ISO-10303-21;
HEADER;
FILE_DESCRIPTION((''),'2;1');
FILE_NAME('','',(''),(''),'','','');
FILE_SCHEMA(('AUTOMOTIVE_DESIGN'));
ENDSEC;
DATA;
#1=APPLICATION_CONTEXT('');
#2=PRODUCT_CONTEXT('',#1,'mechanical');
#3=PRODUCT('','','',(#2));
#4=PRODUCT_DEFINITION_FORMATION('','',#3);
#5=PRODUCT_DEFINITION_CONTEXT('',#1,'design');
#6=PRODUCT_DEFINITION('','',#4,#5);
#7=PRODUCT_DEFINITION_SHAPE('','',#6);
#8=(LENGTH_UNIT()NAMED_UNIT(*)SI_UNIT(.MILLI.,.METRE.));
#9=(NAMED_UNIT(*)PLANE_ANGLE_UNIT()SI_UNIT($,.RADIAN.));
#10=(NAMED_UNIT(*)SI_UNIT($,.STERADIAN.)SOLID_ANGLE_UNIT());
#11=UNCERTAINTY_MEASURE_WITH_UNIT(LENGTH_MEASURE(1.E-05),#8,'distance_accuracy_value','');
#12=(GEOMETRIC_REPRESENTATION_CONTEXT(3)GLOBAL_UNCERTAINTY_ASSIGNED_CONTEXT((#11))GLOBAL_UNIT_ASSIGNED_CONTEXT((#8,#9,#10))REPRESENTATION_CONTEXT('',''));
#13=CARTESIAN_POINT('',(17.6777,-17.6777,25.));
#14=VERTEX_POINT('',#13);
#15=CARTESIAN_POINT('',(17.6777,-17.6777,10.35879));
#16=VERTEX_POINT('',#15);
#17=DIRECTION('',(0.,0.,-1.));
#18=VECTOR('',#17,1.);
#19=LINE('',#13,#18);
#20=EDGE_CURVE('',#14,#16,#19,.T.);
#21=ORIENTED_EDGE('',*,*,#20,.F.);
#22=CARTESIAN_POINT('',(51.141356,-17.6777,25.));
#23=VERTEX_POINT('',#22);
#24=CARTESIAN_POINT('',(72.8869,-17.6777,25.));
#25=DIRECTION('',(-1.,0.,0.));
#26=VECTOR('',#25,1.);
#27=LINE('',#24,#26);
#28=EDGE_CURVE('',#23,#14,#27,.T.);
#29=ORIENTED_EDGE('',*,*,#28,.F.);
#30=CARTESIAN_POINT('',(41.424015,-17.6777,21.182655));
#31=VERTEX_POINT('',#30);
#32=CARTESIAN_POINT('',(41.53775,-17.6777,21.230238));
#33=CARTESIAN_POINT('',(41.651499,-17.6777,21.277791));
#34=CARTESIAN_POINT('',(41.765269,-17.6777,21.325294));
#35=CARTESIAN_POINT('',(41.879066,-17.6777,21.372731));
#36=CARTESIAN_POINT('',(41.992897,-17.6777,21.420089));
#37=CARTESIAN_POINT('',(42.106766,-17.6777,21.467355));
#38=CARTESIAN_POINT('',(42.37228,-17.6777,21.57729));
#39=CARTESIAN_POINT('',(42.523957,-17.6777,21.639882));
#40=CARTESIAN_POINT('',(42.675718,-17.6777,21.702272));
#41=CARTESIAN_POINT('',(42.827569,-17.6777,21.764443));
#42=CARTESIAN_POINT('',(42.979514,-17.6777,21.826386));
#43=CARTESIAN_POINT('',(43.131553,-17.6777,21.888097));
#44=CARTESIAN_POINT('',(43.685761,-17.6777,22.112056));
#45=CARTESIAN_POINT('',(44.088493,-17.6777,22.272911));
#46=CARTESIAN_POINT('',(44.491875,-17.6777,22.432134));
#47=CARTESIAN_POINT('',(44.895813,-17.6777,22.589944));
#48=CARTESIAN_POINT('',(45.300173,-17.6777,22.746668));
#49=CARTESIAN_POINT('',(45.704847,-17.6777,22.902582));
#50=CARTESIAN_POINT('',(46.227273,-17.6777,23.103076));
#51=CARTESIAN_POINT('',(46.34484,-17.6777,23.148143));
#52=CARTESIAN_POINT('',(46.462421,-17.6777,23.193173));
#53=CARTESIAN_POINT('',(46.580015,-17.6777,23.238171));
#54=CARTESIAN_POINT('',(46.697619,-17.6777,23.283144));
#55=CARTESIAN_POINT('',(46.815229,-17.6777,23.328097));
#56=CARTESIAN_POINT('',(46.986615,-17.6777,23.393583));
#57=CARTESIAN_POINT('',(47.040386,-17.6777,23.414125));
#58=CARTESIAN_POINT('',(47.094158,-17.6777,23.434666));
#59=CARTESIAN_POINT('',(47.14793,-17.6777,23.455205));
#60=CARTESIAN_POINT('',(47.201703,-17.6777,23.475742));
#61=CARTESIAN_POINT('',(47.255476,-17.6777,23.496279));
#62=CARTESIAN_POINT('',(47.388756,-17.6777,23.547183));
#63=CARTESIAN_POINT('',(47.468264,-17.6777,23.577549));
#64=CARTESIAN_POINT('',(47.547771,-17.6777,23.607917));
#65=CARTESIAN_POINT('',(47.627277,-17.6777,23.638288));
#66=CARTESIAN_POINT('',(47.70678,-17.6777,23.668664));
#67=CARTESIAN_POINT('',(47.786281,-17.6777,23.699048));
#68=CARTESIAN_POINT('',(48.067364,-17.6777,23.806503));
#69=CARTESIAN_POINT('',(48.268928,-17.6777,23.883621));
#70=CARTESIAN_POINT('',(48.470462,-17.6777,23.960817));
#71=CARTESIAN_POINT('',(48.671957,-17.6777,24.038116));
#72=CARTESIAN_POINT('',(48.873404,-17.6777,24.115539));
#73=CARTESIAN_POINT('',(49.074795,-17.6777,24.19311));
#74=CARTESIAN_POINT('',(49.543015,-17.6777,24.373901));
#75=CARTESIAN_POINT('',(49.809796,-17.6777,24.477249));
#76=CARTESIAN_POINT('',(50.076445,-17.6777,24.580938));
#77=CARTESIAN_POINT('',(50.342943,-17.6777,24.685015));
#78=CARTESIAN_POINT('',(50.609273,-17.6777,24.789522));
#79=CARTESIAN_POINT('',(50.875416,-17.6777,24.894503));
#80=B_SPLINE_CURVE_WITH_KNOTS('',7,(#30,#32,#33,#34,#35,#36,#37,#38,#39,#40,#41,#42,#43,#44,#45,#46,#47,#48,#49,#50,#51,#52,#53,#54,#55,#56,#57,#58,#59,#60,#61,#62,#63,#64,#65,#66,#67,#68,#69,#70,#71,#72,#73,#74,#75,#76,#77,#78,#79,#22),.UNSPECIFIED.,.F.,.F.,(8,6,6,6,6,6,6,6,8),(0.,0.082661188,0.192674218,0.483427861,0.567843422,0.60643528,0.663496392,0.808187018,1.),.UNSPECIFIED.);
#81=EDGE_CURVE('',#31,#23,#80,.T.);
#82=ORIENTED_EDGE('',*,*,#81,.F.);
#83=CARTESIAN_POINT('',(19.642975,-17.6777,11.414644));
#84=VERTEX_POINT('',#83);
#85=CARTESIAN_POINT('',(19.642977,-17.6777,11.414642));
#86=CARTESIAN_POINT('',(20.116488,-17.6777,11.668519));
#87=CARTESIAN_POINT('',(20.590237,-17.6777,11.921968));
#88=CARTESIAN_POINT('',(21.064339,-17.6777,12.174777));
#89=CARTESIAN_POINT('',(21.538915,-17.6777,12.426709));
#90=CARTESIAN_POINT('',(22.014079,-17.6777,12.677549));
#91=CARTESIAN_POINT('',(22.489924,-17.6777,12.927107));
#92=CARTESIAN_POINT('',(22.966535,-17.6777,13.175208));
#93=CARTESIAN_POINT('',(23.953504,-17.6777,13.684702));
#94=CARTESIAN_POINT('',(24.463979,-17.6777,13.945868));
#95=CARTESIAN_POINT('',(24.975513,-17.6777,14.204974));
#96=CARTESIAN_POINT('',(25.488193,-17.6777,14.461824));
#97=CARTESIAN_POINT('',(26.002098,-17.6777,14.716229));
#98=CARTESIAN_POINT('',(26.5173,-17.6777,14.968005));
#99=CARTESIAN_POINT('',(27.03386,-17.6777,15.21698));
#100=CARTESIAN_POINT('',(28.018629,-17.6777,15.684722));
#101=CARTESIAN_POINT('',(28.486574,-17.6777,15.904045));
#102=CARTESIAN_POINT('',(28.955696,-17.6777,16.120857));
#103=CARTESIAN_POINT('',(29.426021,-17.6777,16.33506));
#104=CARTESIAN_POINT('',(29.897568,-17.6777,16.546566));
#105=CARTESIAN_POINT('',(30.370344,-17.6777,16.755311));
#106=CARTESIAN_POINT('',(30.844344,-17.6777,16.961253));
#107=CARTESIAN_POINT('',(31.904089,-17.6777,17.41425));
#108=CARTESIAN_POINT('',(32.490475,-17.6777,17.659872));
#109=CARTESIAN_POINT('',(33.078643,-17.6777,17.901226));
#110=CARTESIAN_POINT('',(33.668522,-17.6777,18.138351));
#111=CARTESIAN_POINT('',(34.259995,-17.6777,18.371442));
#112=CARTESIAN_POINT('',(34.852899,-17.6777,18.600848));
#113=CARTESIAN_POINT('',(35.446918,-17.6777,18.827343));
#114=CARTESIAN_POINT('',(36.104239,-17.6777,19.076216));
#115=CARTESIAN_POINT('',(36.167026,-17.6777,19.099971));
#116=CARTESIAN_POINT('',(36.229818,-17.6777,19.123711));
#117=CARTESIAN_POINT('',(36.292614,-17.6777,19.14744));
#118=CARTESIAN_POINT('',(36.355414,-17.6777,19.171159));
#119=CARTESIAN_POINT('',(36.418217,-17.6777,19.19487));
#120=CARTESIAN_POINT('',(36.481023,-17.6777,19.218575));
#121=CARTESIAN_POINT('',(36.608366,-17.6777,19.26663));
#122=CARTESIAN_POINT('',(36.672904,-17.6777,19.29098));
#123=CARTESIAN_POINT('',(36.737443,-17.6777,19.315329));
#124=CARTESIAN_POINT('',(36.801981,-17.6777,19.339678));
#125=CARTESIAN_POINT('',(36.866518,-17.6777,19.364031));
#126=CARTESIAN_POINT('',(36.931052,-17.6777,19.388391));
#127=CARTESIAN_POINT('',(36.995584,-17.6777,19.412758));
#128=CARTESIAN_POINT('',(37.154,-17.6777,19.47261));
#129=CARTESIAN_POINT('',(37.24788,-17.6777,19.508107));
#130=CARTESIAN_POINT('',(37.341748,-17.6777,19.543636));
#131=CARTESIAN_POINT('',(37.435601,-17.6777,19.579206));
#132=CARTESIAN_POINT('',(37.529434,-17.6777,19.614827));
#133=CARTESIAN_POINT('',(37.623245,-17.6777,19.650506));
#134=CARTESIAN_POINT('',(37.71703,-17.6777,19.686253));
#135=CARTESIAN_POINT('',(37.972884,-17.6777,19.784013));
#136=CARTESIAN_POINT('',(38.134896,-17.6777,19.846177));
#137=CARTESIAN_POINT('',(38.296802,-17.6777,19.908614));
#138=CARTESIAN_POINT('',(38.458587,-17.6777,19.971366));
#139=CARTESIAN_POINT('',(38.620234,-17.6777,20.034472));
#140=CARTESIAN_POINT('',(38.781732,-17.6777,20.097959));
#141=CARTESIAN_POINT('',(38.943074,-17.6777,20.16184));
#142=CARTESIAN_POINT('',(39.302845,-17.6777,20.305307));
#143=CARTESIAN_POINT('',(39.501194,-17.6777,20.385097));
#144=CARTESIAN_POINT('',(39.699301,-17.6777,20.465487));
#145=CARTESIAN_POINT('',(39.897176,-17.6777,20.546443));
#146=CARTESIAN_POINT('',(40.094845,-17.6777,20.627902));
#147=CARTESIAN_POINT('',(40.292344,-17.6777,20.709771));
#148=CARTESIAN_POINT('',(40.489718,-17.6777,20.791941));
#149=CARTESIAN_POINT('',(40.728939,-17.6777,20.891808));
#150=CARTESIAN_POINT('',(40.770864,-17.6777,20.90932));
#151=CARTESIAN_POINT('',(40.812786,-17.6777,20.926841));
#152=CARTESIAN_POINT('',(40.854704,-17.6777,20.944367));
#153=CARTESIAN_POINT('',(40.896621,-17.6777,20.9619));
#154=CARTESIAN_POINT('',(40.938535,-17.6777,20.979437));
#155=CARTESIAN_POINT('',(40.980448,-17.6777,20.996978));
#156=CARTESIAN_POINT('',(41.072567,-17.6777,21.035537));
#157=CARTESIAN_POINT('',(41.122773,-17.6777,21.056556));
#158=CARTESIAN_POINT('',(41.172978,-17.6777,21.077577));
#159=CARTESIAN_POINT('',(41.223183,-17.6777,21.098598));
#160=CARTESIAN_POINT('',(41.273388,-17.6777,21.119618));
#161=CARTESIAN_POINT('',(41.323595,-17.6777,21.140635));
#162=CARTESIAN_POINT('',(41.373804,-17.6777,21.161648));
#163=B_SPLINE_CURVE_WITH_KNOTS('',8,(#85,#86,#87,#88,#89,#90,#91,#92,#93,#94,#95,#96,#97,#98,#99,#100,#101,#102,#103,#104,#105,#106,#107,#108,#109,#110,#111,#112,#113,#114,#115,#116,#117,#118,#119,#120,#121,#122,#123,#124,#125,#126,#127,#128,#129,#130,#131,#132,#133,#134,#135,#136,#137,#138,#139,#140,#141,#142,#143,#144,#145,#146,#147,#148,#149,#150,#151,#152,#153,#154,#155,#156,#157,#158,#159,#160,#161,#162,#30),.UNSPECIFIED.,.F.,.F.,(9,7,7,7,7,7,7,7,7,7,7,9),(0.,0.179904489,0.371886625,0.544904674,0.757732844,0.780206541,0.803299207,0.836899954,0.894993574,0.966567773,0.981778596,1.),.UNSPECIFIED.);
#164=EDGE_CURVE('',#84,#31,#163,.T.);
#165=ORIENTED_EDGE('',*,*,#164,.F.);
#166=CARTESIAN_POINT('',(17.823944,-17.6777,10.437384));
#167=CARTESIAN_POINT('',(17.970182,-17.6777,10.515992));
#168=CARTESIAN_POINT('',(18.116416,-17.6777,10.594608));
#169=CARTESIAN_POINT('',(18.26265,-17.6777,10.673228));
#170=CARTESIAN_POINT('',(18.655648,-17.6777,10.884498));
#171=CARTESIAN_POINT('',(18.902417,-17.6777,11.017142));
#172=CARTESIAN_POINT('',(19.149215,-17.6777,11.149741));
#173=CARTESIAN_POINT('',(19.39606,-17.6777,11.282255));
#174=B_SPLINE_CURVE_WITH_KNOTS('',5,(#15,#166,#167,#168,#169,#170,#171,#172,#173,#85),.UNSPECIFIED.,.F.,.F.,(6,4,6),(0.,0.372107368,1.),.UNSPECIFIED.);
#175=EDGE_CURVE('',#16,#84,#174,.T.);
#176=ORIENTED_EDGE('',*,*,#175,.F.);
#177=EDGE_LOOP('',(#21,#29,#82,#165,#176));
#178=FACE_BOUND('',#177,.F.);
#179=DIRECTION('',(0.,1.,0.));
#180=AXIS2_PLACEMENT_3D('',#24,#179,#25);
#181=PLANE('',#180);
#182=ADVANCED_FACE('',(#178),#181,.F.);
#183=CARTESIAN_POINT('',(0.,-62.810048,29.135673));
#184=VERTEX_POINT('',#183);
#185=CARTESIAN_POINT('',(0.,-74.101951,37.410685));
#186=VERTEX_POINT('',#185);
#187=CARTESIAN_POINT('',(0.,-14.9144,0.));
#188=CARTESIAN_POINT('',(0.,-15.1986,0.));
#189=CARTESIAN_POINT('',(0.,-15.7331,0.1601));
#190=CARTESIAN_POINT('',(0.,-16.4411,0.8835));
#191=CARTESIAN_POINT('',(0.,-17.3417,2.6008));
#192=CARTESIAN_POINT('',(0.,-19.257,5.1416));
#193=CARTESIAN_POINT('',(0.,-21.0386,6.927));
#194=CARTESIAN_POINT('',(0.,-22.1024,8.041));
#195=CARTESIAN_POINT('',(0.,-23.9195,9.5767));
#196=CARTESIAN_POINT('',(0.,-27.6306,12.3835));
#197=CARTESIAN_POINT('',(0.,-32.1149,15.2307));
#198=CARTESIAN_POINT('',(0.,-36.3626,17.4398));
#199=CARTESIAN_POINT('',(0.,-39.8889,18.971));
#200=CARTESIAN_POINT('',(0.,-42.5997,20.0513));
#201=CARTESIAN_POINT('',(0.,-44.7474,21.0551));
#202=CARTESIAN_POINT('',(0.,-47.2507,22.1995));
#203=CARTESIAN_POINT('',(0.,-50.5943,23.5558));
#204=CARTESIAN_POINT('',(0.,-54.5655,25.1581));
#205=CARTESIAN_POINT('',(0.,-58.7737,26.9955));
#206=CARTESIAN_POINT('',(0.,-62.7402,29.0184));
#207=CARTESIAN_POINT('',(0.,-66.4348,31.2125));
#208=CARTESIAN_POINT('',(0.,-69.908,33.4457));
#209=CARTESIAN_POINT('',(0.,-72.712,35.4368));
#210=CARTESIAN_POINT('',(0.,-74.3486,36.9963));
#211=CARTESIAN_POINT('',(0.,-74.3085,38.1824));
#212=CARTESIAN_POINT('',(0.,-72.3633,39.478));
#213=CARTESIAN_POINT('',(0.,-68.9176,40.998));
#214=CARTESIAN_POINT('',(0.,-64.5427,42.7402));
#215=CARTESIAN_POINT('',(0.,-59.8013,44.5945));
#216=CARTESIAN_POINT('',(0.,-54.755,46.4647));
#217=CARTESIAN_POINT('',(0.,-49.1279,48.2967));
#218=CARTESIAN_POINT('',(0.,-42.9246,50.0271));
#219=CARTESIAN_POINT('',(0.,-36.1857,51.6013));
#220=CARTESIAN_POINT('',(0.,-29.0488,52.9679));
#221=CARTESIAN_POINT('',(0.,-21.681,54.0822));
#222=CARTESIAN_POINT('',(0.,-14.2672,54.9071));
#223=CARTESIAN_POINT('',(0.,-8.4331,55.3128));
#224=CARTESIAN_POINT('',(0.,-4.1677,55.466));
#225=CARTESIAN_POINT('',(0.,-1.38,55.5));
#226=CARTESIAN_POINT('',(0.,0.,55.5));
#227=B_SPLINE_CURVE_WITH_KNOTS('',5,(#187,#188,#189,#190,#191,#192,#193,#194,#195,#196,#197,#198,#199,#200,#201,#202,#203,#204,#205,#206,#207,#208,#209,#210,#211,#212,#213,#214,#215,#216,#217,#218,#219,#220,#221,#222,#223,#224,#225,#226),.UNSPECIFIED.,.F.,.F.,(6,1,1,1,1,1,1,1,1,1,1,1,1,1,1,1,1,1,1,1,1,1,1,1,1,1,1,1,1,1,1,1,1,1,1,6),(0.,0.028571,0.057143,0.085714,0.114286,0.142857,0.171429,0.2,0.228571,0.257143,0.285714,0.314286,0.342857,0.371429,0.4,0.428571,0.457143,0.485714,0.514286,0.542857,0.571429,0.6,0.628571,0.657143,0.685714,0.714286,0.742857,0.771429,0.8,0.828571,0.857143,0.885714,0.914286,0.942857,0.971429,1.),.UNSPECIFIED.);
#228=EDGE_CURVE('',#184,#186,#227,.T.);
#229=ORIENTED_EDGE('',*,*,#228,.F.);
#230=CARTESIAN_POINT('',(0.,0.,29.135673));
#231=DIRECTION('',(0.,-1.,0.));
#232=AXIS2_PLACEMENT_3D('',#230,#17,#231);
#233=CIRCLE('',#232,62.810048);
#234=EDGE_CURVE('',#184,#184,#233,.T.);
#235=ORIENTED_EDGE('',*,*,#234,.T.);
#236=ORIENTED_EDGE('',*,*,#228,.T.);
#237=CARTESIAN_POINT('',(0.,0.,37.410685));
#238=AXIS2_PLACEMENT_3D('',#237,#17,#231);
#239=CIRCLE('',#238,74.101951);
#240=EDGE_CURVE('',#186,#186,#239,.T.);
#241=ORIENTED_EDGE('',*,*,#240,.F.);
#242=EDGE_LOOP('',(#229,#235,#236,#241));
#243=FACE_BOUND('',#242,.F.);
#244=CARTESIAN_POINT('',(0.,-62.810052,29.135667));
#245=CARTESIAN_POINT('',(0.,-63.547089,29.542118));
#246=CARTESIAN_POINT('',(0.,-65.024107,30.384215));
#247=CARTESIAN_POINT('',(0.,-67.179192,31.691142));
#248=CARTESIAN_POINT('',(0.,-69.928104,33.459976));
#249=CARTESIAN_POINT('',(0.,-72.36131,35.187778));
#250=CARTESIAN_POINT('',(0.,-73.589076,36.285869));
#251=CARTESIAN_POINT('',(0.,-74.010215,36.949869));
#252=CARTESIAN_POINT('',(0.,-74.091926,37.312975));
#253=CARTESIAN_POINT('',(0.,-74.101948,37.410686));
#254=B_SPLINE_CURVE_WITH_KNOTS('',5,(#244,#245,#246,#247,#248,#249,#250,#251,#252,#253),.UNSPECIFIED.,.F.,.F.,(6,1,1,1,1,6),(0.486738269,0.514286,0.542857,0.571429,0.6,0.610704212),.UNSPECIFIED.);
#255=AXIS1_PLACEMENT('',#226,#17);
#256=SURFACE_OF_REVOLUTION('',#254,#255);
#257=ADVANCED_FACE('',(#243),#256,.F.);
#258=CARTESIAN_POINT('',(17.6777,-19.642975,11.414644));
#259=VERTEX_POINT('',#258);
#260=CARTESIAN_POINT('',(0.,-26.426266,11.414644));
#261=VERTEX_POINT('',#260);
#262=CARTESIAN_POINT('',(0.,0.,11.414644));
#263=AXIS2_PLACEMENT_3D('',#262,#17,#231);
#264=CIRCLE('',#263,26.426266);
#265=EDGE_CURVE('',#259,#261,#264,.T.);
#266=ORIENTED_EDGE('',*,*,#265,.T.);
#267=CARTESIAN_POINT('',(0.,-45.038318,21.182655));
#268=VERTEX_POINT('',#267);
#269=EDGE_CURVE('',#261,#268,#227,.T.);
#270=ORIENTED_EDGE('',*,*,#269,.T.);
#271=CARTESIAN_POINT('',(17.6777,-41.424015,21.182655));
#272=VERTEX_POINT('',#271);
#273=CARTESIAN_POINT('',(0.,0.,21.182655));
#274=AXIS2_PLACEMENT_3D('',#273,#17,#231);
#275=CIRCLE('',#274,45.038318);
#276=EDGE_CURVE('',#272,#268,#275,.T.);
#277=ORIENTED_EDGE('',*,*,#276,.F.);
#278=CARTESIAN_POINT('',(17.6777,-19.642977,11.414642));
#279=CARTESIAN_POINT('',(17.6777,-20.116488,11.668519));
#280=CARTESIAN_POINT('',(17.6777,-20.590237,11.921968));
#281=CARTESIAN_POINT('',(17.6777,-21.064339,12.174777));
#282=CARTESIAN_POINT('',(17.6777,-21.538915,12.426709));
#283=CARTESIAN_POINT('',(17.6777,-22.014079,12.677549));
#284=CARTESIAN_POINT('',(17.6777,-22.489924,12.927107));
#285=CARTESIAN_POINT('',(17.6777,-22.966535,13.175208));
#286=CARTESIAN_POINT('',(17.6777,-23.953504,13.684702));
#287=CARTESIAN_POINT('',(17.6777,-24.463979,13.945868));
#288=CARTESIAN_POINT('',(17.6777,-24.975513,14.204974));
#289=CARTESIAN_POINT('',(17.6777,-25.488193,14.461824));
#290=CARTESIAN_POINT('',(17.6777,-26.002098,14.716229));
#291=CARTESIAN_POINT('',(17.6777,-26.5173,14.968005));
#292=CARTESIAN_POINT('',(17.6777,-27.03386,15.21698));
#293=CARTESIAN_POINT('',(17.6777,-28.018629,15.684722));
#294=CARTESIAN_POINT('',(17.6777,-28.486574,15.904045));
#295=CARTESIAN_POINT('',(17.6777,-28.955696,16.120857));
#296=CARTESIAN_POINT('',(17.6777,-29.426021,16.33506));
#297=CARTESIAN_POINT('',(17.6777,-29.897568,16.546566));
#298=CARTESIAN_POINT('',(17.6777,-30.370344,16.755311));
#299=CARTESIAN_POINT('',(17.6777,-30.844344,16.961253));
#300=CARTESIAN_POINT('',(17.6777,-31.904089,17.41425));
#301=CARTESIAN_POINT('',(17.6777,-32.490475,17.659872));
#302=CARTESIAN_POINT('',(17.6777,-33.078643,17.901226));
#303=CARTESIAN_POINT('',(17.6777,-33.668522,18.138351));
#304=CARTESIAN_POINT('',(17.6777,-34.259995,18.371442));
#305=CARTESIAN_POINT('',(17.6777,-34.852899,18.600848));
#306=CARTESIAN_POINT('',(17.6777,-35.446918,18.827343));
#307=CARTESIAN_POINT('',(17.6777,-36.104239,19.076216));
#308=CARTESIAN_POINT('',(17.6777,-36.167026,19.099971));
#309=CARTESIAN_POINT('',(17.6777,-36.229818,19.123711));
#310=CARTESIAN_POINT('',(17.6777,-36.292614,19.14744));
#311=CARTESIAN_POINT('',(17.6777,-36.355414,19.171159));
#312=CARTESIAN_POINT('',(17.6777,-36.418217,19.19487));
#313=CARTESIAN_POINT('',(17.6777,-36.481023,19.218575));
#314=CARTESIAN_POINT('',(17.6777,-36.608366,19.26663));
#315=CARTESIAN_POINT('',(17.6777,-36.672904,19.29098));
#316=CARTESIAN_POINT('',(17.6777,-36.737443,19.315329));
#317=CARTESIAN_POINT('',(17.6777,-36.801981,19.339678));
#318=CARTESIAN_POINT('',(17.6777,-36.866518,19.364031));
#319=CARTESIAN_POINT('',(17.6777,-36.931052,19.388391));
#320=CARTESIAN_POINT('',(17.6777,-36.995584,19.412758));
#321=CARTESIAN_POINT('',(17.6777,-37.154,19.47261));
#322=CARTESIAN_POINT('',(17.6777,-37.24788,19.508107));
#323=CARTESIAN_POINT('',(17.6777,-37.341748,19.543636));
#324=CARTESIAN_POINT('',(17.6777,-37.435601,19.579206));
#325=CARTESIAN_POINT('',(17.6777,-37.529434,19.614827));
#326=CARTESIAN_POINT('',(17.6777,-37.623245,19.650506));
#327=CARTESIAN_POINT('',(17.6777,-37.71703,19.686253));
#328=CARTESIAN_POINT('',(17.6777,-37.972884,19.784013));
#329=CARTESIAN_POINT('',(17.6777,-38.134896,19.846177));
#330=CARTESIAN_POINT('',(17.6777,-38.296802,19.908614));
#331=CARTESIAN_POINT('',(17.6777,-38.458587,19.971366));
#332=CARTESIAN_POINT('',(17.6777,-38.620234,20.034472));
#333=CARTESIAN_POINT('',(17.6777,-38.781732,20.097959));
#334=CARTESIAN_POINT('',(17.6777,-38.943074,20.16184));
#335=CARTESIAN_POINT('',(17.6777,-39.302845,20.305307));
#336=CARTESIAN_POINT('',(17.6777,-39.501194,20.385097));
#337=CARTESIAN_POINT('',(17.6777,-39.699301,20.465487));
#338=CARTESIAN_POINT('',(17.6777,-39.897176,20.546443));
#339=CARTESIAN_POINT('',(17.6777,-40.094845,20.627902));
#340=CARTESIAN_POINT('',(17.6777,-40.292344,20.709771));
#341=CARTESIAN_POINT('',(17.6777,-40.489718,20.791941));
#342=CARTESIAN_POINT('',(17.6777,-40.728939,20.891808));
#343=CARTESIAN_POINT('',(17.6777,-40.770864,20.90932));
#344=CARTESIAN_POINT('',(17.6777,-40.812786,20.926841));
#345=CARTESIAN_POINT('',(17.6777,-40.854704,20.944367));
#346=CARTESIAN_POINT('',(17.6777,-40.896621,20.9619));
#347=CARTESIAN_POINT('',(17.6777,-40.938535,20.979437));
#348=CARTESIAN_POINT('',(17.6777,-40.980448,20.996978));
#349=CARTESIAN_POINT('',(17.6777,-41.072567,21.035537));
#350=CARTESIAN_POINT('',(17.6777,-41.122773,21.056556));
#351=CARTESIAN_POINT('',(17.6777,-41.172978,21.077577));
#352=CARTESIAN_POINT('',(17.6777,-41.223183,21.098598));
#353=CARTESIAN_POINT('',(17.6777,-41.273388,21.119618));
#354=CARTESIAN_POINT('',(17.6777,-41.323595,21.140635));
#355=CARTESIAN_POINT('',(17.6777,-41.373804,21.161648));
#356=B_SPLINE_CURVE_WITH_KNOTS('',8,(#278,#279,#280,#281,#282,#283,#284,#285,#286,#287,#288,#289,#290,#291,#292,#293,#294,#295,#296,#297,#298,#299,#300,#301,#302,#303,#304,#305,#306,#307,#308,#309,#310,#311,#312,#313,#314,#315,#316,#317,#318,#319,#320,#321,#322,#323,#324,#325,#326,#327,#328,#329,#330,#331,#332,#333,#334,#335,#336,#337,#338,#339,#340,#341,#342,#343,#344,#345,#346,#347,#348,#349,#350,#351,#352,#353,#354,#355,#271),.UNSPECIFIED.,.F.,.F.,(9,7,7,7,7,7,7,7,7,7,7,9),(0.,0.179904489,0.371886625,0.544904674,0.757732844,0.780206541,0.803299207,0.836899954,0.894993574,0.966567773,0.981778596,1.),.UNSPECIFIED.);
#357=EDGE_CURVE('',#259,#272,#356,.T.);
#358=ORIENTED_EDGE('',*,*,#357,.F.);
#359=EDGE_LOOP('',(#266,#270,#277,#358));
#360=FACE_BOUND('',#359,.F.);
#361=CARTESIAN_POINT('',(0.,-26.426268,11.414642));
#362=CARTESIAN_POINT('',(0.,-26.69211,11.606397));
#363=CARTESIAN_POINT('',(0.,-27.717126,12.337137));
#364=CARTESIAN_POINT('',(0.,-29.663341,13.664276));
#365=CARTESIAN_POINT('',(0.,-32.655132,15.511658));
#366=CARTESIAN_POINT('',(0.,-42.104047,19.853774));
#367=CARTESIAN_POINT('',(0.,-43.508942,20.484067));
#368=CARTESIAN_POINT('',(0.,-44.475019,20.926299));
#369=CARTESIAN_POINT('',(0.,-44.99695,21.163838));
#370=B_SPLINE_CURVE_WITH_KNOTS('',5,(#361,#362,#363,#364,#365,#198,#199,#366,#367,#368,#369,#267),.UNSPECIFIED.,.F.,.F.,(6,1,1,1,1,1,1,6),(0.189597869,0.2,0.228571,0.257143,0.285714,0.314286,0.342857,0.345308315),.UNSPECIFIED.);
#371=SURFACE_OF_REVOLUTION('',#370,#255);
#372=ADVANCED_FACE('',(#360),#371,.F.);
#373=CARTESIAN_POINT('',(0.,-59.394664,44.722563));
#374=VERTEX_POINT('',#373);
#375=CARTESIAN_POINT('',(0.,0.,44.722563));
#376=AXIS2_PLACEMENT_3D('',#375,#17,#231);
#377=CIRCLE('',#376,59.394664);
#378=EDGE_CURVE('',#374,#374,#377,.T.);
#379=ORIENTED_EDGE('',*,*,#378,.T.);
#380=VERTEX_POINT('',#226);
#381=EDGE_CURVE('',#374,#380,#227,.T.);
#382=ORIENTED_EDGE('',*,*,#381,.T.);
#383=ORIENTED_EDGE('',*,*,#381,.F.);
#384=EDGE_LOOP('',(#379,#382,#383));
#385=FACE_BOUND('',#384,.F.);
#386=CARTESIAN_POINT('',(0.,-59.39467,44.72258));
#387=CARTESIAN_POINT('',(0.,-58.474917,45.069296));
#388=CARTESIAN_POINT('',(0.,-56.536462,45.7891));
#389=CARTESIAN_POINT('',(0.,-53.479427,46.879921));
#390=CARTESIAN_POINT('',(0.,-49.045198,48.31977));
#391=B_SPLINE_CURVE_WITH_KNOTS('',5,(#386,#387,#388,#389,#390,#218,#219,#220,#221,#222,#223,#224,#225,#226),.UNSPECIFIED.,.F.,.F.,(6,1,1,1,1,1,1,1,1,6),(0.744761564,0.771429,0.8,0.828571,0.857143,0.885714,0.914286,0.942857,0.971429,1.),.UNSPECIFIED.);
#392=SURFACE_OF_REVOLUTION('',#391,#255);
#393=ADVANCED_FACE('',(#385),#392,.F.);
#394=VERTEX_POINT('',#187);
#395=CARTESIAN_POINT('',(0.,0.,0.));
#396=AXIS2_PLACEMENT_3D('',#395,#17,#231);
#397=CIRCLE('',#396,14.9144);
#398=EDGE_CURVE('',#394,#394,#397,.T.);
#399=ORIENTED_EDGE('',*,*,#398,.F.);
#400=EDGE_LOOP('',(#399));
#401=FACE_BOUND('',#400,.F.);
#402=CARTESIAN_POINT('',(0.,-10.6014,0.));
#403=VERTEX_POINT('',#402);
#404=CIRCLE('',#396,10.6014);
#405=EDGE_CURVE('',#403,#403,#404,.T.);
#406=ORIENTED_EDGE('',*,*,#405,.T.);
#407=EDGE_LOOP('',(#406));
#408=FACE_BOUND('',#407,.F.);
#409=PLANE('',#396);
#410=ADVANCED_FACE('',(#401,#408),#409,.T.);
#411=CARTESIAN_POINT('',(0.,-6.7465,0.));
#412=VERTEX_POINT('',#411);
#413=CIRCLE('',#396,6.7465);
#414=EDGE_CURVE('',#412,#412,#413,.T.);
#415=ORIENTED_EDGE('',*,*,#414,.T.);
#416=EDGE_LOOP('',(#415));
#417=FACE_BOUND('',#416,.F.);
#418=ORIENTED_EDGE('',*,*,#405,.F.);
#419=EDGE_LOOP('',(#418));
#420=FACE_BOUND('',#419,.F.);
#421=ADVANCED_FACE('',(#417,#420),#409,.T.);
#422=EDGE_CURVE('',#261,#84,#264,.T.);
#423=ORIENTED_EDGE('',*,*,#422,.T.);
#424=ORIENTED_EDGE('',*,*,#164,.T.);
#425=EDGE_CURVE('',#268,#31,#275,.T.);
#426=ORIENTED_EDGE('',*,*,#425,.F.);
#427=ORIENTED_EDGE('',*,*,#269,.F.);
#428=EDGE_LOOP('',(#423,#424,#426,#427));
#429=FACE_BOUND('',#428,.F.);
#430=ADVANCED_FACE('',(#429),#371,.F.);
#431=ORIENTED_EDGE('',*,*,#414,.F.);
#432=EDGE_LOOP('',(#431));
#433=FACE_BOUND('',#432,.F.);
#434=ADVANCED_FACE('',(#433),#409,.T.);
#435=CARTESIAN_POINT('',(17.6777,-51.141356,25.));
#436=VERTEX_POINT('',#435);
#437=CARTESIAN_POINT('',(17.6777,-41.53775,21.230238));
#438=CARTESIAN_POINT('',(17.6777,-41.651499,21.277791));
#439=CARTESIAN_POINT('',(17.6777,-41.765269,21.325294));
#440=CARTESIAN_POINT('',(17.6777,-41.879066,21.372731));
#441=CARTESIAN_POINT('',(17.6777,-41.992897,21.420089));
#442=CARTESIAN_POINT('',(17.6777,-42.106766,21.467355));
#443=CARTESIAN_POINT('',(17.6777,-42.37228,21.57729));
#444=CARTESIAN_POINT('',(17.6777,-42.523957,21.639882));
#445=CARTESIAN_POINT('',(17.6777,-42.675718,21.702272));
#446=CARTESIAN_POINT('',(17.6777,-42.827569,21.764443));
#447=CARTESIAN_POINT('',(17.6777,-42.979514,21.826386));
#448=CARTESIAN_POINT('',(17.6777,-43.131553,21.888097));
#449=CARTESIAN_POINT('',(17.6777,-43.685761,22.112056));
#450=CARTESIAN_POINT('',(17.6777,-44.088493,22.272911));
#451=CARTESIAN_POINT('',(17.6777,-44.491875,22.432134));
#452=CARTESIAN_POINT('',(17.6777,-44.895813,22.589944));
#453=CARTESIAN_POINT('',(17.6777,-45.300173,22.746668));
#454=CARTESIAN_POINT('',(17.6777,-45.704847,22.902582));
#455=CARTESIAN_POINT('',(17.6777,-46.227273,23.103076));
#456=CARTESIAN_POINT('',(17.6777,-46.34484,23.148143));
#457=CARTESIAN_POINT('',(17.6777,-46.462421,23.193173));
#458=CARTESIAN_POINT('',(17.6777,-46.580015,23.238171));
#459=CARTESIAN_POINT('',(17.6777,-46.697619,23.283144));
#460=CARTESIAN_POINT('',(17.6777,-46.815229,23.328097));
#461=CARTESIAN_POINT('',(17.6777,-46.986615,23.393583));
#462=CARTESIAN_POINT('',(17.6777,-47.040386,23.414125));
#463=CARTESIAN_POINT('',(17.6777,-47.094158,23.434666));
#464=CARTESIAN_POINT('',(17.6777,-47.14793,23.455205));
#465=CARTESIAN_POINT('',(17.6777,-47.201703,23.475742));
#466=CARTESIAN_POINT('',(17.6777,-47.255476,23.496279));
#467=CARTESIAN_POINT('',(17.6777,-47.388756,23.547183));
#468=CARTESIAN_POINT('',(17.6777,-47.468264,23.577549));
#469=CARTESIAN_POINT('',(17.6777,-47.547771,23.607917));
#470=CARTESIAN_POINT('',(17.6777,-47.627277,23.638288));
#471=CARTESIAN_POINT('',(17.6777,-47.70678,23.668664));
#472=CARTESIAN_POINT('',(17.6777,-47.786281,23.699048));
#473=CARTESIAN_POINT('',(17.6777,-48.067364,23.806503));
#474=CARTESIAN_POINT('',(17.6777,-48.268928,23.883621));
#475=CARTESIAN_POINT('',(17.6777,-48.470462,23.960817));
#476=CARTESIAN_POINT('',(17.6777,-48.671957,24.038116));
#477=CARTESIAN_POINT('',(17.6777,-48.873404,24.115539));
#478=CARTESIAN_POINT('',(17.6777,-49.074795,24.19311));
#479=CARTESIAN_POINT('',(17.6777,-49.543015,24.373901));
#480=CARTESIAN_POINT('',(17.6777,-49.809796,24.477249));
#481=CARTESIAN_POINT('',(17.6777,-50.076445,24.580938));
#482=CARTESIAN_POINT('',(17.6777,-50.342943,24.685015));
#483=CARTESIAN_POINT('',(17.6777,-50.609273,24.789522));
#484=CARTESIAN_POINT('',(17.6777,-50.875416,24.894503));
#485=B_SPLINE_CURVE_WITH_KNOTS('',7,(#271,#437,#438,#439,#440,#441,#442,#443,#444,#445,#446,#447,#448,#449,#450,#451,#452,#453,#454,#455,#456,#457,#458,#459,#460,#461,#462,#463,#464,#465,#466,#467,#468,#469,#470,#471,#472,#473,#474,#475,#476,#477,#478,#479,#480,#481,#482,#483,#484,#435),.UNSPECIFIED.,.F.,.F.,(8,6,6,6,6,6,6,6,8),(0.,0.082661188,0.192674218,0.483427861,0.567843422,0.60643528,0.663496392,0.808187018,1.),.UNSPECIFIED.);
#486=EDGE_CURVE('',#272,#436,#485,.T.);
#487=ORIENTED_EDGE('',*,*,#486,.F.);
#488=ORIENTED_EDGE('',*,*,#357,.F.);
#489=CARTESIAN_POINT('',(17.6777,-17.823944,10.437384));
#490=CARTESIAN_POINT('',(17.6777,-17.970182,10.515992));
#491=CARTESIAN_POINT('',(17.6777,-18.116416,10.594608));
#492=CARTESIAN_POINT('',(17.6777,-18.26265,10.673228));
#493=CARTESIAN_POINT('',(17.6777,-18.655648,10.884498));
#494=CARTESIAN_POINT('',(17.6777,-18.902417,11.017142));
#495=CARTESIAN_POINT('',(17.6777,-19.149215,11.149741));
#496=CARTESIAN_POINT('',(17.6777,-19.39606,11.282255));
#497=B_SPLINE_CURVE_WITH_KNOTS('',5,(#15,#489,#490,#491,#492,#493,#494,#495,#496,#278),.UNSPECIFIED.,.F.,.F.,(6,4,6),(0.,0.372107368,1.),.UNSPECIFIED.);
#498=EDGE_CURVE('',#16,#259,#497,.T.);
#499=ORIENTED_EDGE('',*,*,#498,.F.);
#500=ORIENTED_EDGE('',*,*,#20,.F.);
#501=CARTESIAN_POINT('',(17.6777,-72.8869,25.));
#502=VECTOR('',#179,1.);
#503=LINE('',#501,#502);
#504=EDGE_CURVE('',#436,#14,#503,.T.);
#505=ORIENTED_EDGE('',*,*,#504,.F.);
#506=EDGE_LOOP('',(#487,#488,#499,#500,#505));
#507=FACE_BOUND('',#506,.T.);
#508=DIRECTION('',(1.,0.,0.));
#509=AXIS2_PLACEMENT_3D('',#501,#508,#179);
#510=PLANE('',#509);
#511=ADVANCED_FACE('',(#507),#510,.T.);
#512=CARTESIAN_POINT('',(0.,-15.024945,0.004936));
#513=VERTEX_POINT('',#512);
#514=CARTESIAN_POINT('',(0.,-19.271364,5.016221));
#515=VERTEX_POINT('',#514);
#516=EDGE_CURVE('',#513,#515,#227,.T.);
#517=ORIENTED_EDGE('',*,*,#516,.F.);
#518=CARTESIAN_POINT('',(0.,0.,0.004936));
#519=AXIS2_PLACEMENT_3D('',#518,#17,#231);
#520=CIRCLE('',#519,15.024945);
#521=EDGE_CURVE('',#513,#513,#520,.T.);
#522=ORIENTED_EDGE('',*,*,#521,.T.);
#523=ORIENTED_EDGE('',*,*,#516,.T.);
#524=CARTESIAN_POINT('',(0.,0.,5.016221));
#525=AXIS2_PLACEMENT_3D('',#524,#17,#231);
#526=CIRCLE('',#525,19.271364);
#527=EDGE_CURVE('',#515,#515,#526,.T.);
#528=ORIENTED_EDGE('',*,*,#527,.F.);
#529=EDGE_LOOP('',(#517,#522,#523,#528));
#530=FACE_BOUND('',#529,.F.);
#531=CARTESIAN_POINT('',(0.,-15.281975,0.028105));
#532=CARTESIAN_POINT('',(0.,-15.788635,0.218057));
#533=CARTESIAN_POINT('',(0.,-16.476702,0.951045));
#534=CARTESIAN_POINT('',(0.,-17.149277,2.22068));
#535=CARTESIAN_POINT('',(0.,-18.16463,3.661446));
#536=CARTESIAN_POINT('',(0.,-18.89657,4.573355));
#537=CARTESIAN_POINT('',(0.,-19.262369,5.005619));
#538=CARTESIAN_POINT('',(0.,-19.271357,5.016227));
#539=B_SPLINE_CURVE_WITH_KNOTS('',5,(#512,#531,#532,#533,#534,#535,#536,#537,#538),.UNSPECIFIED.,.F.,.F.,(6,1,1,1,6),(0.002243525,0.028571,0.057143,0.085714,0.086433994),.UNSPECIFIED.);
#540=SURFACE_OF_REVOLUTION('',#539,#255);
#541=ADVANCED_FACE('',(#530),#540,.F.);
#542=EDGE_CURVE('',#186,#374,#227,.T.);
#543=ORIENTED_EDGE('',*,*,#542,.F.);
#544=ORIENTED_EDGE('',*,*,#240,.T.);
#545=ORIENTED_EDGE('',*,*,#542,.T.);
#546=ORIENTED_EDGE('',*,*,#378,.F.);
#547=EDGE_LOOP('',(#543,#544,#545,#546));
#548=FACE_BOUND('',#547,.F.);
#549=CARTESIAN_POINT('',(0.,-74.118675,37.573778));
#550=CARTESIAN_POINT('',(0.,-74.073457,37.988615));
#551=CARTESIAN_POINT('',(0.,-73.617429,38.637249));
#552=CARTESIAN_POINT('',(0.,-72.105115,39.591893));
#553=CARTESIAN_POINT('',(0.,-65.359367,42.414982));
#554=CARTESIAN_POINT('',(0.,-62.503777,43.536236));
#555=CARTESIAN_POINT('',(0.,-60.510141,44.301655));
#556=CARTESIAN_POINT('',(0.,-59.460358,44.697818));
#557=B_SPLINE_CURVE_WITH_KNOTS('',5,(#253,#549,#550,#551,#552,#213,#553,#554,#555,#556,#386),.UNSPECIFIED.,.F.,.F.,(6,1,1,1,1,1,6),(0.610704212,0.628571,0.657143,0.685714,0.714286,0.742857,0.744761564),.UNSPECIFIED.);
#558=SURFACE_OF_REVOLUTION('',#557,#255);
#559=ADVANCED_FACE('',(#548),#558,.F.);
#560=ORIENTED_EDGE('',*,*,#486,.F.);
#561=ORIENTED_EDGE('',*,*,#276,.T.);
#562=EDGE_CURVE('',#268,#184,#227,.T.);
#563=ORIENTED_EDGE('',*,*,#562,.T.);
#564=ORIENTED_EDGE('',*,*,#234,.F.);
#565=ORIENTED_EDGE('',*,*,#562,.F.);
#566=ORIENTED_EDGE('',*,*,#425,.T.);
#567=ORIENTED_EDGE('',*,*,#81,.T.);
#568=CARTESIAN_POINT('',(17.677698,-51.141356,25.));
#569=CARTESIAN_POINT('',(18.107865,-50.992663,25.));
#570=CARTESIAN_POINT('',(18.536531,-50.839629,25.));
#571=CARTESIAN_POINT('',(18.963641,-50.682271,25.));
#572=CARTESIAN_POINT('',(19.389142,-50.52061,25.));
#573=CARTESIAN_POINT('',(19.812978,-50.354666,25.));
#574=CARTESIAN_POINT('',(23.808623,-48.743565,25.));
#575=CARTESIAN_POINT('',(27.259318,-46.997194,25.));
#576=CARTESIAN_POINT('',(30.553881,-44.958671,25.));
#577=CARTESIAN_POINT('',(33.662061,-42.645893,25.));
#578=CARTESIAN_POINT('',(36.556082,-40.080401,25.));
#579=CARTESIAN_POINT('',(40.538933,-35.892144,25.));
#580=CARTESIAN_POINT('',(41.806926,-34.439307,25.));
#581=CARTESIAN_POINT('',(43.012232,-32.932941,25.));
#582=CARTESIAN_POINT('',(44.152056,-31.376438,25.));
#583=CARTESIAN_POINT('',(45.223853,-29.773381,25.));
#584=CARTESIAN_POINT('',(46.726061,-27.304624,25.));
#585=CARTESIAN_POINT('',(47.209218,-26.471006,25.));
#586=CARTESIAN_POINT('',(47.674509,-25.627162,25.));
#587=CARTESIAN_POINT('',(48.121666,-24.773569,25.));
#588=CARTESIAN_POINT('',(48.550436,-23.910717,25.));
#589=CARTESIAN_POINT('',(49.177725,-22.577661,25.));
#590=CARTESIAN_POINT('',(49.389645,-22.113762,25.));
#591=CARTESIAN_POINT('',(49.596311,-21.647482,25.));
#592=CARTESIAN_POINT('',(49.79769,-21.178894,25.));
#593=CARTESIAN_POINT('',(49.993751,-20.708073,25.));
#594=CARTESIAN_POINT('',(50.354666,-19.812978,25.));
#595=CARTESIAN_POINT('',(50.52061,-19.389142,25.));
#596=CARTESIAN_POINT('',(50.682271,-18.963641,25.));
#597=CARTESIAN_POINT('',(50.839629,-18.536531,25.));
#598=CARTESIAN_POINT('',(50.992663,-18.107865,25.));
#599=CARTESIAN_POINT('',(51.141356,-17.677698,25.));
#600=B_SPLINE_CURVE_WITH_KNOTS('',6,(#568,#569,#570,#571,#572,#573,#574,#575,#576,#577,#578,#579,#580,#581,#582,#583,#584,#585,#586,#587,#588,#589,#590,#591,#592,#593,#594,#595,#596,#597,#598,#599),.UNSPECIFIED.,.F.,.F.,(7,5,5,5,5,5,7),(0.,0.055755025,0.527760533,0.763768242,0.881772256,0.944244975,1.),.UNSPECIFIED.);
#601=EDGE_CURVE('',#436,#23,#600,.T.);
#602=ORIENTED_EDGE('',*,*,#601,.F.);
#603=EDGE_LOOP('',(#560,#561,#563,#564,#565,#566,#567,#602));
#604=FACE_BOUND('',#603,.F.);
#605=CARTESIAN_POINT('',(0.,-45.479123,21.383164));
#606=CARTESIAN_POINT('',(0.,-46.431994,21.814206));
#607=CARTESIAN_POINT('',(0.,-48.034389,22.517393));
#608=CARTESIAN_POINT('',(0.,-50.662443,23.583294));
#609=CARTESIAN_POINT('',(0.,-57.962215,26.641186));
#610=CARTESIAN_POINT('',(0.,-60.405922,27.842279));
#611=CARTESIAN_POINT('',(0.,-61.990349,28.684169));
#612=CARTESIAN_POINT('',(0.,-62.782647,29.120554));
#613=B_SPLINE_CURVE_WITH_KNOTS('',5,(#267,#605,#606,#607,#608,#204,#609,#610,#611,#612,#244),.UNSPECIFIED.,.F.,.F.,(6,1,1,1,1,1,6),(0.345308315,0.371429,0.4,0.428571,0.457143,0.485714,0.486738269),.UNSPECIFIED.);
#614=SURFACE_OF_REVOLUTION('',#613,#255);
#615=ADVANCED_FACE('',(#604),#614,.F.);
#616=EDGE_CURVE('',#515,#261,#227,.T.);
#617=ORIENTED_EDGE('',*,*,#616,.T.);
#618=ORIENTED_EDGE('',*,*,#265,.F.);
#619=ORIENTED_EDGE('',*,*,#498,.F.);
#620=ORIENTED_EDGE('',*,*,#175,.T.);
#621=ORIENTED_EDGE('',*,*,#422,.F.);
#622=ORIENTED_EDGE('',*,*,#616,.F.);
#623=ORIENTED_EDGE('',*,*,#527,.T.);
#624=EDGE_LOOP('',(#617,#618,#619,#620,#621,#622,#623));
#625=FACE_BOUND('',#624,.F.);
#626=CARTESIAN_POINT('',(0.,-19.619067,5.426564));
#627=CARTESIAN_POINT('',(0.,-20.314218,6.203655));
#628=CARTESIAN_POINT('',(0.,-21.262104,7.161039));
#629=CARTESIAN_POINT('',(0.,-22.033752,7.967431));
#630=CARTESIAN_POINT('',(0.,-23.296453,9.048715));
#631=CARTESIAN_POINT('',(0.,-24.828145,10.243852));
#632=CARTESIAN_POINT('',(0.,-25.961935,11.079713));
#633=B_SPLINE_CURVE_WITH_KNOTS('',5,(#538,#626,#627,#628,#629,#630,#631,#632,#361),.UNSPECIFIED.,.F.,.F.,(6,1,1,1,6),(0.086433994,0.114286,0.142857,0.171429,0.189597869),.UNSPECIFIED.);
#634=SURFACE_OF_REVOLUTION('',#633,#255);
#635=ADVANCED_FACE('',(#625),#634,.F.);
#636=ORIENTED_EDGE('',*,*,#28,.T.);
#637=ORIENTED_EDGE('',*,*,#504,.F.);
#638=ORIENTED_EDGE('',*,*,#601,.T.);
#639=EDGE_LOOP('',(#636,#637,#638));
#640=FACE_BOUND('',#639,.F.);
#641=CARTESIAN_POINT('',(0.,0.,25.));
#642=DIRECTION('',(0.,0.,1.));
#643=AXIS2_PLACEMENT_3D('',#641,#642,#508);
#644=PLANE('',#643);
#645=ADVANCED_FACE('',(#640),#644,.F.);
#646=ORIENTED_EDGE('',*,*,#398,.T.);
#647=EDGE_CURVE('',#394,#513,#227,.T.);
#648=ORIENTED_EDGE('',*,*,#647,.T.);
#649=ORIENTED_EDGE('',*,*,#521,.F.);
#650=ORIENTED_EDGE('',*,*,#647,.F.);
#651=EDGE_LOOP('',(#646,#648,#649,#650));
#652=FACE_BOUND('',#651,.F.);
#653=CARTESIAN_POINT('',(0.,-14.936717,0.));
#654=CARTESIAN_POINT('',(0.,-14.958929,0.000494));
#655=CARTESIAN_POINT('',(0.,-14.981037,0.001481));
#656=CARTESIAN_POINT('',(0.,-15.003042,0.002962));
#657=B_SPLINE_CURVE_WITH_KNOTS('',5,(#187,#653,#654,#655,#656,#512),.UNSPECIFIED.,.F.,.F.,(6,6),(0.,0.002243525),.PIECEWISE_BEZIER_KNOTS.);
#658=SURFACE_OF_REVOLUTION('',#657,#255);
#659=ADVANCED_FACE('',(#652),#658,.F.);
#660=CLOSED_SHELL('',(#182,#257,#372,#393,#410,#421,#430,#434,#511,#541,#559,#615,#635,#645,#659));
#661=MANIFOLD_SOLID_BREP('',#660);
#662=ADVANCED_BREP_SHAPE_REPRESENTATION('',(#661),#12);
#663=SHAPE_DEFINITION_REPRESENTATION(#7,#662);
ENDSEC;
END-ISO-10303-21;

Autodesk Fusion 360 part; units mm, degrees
sketch "antenna profile" plane through (0, 0, 0) normal (1, 0, 0) x (0, 1, 0)
  line L0 (0, 55.5) -> (0, 0)
  spline S0 degree 5 poles (-14.9144, 0) (-15.1986, 0) (-15.7331, 0.1601) (-16.4411, 0.8835) (-17.3417, 2.6008) (-19.257, 5.1416) (-21.0386, 6.927) (-22.1024, 8.041) (-23.9195, 9.5767) (-27.6306, 12.3835) (-32.1149, 15.2307) (-36.3626, 17.4398) (-39.8889, 18.971) (-42.5997, 20.0513) (-44.7474, 21.0551) (-47.2507, 22.1995) (-50.5943, 23.5558) (-54.5655, 25.1581) (-58.7737, 26.9955) (-62.7402, 29.0184) (-66.4348, 31.2125) (-69.908, 33.4457) (-72.712, 35.4368) (-74.3486, 36.9963) (-74.3085, 38.1824) (-72.3633, 39.478) (-68.9176, 40.998) (-64.5427, 42.7402) (-59.8013, 44.5945) (-54.755, 46.4647) (-49.1279, 48.2967) (-42.9246, 50.0271) (-36.1857, 51.6013) (-29.0488, 52.9679) (-21.681, 54.0822) (-14.2672, 54.9071) (-8.4331, 55.3128) (-4.1677, 55.466) (-1.38, 55.5) (0, 55.5) knots 0 0 0 0 0 0 0.028571 0.057143 0.085714 0.114286 0.142857 0.171429 0.2 0.228571 0.257143 0.285714 0.314286 0.342857 0.371429 0.4 0.428571 0.457143 0.485714 0.514286 0.542857 0.571429 0.6 0.628571 0.657143 0.685714 0.714286 0.742857 0.771429 0.8 0.828571 0.857143 0.885714 0.914286 0.942857 0.971429 1 1 1 1 1 1
  line L1 (-6.7465, 0) -> (-23.0822, 0)
  line L2 (-8.522, -7.6693) -> (-30.0208, 17.7018)
  line L3 (-10.6014, 0) -> (-42.251, 22.8292)
  line L4 (-35.5679, 16.868) -> (-53.4299, 25.0058)
  line L5 (-72.2398, 39.8804) -> (-46.5495, 49.5647)
  line L6 (-14.9866, 55.5) -> (14.9866, 55.5)
  line L7 (0, 0) -> (-14.9144, 0)
  line L8 (-47.055, 20.4473) -> (-78.5648, 37.8239)
  line L9 (-73.6324, 32.8325) -> (-74.5715, 41.9888)
  point P0 (-62.8099, 29.1356)
  point P1 (-26.4262, 11.4146)
  point P2 (-19.2714, 5.0163)
  point P3 (-44.4989, 20.9369)
  point P4 (-59.3947, 44.7226)
  point P5 (-74.102, 37.4107)
  dimension "d29" = 55.5
sketch "Sketch8" plane through (0, 0, 0) normal (0, 0, 1) x (1, 0, 0)
revolve "Revolve1" add sketch "antenna profile" angle 360 about axis through (0, 0, 55.5) along (0, 0, -1) contours L0 S0 L1 L3 L7 | S0 L1 L2 L3 L7 | S0 L2 L3 | S0 L2
ref_plane "WorkPlane1" through (0, 0, 25) normal (0, 0, 1) x (1, 0, 0)
sketch "mounting" plane through (0, 0, 25) normal (0, 0, 1) x (1, 0, 0)
  circle A0 centre (0, 0) radius 25
  circle A1 centre (0, 0) radius 75
  line L0 (0, -75) -> (0, -25)
  line L1 (25, -0.0001) -> (75, -0.0001)
  line L2 (17.6777, -72.8869) -> (17.6777, -17.6777)
  line L3 (72.8869, -17.6777) -> (17.6777, -17.6777)
  line L4 (0, 0) -> (53.033, -53.033)
  dimension "d32" = 50
  dimension "d33" = 150
extrude "Extrude3" cut sketch "mounting" against normal blind 40 contours A1 L2 L4 | A1 L3 L4
